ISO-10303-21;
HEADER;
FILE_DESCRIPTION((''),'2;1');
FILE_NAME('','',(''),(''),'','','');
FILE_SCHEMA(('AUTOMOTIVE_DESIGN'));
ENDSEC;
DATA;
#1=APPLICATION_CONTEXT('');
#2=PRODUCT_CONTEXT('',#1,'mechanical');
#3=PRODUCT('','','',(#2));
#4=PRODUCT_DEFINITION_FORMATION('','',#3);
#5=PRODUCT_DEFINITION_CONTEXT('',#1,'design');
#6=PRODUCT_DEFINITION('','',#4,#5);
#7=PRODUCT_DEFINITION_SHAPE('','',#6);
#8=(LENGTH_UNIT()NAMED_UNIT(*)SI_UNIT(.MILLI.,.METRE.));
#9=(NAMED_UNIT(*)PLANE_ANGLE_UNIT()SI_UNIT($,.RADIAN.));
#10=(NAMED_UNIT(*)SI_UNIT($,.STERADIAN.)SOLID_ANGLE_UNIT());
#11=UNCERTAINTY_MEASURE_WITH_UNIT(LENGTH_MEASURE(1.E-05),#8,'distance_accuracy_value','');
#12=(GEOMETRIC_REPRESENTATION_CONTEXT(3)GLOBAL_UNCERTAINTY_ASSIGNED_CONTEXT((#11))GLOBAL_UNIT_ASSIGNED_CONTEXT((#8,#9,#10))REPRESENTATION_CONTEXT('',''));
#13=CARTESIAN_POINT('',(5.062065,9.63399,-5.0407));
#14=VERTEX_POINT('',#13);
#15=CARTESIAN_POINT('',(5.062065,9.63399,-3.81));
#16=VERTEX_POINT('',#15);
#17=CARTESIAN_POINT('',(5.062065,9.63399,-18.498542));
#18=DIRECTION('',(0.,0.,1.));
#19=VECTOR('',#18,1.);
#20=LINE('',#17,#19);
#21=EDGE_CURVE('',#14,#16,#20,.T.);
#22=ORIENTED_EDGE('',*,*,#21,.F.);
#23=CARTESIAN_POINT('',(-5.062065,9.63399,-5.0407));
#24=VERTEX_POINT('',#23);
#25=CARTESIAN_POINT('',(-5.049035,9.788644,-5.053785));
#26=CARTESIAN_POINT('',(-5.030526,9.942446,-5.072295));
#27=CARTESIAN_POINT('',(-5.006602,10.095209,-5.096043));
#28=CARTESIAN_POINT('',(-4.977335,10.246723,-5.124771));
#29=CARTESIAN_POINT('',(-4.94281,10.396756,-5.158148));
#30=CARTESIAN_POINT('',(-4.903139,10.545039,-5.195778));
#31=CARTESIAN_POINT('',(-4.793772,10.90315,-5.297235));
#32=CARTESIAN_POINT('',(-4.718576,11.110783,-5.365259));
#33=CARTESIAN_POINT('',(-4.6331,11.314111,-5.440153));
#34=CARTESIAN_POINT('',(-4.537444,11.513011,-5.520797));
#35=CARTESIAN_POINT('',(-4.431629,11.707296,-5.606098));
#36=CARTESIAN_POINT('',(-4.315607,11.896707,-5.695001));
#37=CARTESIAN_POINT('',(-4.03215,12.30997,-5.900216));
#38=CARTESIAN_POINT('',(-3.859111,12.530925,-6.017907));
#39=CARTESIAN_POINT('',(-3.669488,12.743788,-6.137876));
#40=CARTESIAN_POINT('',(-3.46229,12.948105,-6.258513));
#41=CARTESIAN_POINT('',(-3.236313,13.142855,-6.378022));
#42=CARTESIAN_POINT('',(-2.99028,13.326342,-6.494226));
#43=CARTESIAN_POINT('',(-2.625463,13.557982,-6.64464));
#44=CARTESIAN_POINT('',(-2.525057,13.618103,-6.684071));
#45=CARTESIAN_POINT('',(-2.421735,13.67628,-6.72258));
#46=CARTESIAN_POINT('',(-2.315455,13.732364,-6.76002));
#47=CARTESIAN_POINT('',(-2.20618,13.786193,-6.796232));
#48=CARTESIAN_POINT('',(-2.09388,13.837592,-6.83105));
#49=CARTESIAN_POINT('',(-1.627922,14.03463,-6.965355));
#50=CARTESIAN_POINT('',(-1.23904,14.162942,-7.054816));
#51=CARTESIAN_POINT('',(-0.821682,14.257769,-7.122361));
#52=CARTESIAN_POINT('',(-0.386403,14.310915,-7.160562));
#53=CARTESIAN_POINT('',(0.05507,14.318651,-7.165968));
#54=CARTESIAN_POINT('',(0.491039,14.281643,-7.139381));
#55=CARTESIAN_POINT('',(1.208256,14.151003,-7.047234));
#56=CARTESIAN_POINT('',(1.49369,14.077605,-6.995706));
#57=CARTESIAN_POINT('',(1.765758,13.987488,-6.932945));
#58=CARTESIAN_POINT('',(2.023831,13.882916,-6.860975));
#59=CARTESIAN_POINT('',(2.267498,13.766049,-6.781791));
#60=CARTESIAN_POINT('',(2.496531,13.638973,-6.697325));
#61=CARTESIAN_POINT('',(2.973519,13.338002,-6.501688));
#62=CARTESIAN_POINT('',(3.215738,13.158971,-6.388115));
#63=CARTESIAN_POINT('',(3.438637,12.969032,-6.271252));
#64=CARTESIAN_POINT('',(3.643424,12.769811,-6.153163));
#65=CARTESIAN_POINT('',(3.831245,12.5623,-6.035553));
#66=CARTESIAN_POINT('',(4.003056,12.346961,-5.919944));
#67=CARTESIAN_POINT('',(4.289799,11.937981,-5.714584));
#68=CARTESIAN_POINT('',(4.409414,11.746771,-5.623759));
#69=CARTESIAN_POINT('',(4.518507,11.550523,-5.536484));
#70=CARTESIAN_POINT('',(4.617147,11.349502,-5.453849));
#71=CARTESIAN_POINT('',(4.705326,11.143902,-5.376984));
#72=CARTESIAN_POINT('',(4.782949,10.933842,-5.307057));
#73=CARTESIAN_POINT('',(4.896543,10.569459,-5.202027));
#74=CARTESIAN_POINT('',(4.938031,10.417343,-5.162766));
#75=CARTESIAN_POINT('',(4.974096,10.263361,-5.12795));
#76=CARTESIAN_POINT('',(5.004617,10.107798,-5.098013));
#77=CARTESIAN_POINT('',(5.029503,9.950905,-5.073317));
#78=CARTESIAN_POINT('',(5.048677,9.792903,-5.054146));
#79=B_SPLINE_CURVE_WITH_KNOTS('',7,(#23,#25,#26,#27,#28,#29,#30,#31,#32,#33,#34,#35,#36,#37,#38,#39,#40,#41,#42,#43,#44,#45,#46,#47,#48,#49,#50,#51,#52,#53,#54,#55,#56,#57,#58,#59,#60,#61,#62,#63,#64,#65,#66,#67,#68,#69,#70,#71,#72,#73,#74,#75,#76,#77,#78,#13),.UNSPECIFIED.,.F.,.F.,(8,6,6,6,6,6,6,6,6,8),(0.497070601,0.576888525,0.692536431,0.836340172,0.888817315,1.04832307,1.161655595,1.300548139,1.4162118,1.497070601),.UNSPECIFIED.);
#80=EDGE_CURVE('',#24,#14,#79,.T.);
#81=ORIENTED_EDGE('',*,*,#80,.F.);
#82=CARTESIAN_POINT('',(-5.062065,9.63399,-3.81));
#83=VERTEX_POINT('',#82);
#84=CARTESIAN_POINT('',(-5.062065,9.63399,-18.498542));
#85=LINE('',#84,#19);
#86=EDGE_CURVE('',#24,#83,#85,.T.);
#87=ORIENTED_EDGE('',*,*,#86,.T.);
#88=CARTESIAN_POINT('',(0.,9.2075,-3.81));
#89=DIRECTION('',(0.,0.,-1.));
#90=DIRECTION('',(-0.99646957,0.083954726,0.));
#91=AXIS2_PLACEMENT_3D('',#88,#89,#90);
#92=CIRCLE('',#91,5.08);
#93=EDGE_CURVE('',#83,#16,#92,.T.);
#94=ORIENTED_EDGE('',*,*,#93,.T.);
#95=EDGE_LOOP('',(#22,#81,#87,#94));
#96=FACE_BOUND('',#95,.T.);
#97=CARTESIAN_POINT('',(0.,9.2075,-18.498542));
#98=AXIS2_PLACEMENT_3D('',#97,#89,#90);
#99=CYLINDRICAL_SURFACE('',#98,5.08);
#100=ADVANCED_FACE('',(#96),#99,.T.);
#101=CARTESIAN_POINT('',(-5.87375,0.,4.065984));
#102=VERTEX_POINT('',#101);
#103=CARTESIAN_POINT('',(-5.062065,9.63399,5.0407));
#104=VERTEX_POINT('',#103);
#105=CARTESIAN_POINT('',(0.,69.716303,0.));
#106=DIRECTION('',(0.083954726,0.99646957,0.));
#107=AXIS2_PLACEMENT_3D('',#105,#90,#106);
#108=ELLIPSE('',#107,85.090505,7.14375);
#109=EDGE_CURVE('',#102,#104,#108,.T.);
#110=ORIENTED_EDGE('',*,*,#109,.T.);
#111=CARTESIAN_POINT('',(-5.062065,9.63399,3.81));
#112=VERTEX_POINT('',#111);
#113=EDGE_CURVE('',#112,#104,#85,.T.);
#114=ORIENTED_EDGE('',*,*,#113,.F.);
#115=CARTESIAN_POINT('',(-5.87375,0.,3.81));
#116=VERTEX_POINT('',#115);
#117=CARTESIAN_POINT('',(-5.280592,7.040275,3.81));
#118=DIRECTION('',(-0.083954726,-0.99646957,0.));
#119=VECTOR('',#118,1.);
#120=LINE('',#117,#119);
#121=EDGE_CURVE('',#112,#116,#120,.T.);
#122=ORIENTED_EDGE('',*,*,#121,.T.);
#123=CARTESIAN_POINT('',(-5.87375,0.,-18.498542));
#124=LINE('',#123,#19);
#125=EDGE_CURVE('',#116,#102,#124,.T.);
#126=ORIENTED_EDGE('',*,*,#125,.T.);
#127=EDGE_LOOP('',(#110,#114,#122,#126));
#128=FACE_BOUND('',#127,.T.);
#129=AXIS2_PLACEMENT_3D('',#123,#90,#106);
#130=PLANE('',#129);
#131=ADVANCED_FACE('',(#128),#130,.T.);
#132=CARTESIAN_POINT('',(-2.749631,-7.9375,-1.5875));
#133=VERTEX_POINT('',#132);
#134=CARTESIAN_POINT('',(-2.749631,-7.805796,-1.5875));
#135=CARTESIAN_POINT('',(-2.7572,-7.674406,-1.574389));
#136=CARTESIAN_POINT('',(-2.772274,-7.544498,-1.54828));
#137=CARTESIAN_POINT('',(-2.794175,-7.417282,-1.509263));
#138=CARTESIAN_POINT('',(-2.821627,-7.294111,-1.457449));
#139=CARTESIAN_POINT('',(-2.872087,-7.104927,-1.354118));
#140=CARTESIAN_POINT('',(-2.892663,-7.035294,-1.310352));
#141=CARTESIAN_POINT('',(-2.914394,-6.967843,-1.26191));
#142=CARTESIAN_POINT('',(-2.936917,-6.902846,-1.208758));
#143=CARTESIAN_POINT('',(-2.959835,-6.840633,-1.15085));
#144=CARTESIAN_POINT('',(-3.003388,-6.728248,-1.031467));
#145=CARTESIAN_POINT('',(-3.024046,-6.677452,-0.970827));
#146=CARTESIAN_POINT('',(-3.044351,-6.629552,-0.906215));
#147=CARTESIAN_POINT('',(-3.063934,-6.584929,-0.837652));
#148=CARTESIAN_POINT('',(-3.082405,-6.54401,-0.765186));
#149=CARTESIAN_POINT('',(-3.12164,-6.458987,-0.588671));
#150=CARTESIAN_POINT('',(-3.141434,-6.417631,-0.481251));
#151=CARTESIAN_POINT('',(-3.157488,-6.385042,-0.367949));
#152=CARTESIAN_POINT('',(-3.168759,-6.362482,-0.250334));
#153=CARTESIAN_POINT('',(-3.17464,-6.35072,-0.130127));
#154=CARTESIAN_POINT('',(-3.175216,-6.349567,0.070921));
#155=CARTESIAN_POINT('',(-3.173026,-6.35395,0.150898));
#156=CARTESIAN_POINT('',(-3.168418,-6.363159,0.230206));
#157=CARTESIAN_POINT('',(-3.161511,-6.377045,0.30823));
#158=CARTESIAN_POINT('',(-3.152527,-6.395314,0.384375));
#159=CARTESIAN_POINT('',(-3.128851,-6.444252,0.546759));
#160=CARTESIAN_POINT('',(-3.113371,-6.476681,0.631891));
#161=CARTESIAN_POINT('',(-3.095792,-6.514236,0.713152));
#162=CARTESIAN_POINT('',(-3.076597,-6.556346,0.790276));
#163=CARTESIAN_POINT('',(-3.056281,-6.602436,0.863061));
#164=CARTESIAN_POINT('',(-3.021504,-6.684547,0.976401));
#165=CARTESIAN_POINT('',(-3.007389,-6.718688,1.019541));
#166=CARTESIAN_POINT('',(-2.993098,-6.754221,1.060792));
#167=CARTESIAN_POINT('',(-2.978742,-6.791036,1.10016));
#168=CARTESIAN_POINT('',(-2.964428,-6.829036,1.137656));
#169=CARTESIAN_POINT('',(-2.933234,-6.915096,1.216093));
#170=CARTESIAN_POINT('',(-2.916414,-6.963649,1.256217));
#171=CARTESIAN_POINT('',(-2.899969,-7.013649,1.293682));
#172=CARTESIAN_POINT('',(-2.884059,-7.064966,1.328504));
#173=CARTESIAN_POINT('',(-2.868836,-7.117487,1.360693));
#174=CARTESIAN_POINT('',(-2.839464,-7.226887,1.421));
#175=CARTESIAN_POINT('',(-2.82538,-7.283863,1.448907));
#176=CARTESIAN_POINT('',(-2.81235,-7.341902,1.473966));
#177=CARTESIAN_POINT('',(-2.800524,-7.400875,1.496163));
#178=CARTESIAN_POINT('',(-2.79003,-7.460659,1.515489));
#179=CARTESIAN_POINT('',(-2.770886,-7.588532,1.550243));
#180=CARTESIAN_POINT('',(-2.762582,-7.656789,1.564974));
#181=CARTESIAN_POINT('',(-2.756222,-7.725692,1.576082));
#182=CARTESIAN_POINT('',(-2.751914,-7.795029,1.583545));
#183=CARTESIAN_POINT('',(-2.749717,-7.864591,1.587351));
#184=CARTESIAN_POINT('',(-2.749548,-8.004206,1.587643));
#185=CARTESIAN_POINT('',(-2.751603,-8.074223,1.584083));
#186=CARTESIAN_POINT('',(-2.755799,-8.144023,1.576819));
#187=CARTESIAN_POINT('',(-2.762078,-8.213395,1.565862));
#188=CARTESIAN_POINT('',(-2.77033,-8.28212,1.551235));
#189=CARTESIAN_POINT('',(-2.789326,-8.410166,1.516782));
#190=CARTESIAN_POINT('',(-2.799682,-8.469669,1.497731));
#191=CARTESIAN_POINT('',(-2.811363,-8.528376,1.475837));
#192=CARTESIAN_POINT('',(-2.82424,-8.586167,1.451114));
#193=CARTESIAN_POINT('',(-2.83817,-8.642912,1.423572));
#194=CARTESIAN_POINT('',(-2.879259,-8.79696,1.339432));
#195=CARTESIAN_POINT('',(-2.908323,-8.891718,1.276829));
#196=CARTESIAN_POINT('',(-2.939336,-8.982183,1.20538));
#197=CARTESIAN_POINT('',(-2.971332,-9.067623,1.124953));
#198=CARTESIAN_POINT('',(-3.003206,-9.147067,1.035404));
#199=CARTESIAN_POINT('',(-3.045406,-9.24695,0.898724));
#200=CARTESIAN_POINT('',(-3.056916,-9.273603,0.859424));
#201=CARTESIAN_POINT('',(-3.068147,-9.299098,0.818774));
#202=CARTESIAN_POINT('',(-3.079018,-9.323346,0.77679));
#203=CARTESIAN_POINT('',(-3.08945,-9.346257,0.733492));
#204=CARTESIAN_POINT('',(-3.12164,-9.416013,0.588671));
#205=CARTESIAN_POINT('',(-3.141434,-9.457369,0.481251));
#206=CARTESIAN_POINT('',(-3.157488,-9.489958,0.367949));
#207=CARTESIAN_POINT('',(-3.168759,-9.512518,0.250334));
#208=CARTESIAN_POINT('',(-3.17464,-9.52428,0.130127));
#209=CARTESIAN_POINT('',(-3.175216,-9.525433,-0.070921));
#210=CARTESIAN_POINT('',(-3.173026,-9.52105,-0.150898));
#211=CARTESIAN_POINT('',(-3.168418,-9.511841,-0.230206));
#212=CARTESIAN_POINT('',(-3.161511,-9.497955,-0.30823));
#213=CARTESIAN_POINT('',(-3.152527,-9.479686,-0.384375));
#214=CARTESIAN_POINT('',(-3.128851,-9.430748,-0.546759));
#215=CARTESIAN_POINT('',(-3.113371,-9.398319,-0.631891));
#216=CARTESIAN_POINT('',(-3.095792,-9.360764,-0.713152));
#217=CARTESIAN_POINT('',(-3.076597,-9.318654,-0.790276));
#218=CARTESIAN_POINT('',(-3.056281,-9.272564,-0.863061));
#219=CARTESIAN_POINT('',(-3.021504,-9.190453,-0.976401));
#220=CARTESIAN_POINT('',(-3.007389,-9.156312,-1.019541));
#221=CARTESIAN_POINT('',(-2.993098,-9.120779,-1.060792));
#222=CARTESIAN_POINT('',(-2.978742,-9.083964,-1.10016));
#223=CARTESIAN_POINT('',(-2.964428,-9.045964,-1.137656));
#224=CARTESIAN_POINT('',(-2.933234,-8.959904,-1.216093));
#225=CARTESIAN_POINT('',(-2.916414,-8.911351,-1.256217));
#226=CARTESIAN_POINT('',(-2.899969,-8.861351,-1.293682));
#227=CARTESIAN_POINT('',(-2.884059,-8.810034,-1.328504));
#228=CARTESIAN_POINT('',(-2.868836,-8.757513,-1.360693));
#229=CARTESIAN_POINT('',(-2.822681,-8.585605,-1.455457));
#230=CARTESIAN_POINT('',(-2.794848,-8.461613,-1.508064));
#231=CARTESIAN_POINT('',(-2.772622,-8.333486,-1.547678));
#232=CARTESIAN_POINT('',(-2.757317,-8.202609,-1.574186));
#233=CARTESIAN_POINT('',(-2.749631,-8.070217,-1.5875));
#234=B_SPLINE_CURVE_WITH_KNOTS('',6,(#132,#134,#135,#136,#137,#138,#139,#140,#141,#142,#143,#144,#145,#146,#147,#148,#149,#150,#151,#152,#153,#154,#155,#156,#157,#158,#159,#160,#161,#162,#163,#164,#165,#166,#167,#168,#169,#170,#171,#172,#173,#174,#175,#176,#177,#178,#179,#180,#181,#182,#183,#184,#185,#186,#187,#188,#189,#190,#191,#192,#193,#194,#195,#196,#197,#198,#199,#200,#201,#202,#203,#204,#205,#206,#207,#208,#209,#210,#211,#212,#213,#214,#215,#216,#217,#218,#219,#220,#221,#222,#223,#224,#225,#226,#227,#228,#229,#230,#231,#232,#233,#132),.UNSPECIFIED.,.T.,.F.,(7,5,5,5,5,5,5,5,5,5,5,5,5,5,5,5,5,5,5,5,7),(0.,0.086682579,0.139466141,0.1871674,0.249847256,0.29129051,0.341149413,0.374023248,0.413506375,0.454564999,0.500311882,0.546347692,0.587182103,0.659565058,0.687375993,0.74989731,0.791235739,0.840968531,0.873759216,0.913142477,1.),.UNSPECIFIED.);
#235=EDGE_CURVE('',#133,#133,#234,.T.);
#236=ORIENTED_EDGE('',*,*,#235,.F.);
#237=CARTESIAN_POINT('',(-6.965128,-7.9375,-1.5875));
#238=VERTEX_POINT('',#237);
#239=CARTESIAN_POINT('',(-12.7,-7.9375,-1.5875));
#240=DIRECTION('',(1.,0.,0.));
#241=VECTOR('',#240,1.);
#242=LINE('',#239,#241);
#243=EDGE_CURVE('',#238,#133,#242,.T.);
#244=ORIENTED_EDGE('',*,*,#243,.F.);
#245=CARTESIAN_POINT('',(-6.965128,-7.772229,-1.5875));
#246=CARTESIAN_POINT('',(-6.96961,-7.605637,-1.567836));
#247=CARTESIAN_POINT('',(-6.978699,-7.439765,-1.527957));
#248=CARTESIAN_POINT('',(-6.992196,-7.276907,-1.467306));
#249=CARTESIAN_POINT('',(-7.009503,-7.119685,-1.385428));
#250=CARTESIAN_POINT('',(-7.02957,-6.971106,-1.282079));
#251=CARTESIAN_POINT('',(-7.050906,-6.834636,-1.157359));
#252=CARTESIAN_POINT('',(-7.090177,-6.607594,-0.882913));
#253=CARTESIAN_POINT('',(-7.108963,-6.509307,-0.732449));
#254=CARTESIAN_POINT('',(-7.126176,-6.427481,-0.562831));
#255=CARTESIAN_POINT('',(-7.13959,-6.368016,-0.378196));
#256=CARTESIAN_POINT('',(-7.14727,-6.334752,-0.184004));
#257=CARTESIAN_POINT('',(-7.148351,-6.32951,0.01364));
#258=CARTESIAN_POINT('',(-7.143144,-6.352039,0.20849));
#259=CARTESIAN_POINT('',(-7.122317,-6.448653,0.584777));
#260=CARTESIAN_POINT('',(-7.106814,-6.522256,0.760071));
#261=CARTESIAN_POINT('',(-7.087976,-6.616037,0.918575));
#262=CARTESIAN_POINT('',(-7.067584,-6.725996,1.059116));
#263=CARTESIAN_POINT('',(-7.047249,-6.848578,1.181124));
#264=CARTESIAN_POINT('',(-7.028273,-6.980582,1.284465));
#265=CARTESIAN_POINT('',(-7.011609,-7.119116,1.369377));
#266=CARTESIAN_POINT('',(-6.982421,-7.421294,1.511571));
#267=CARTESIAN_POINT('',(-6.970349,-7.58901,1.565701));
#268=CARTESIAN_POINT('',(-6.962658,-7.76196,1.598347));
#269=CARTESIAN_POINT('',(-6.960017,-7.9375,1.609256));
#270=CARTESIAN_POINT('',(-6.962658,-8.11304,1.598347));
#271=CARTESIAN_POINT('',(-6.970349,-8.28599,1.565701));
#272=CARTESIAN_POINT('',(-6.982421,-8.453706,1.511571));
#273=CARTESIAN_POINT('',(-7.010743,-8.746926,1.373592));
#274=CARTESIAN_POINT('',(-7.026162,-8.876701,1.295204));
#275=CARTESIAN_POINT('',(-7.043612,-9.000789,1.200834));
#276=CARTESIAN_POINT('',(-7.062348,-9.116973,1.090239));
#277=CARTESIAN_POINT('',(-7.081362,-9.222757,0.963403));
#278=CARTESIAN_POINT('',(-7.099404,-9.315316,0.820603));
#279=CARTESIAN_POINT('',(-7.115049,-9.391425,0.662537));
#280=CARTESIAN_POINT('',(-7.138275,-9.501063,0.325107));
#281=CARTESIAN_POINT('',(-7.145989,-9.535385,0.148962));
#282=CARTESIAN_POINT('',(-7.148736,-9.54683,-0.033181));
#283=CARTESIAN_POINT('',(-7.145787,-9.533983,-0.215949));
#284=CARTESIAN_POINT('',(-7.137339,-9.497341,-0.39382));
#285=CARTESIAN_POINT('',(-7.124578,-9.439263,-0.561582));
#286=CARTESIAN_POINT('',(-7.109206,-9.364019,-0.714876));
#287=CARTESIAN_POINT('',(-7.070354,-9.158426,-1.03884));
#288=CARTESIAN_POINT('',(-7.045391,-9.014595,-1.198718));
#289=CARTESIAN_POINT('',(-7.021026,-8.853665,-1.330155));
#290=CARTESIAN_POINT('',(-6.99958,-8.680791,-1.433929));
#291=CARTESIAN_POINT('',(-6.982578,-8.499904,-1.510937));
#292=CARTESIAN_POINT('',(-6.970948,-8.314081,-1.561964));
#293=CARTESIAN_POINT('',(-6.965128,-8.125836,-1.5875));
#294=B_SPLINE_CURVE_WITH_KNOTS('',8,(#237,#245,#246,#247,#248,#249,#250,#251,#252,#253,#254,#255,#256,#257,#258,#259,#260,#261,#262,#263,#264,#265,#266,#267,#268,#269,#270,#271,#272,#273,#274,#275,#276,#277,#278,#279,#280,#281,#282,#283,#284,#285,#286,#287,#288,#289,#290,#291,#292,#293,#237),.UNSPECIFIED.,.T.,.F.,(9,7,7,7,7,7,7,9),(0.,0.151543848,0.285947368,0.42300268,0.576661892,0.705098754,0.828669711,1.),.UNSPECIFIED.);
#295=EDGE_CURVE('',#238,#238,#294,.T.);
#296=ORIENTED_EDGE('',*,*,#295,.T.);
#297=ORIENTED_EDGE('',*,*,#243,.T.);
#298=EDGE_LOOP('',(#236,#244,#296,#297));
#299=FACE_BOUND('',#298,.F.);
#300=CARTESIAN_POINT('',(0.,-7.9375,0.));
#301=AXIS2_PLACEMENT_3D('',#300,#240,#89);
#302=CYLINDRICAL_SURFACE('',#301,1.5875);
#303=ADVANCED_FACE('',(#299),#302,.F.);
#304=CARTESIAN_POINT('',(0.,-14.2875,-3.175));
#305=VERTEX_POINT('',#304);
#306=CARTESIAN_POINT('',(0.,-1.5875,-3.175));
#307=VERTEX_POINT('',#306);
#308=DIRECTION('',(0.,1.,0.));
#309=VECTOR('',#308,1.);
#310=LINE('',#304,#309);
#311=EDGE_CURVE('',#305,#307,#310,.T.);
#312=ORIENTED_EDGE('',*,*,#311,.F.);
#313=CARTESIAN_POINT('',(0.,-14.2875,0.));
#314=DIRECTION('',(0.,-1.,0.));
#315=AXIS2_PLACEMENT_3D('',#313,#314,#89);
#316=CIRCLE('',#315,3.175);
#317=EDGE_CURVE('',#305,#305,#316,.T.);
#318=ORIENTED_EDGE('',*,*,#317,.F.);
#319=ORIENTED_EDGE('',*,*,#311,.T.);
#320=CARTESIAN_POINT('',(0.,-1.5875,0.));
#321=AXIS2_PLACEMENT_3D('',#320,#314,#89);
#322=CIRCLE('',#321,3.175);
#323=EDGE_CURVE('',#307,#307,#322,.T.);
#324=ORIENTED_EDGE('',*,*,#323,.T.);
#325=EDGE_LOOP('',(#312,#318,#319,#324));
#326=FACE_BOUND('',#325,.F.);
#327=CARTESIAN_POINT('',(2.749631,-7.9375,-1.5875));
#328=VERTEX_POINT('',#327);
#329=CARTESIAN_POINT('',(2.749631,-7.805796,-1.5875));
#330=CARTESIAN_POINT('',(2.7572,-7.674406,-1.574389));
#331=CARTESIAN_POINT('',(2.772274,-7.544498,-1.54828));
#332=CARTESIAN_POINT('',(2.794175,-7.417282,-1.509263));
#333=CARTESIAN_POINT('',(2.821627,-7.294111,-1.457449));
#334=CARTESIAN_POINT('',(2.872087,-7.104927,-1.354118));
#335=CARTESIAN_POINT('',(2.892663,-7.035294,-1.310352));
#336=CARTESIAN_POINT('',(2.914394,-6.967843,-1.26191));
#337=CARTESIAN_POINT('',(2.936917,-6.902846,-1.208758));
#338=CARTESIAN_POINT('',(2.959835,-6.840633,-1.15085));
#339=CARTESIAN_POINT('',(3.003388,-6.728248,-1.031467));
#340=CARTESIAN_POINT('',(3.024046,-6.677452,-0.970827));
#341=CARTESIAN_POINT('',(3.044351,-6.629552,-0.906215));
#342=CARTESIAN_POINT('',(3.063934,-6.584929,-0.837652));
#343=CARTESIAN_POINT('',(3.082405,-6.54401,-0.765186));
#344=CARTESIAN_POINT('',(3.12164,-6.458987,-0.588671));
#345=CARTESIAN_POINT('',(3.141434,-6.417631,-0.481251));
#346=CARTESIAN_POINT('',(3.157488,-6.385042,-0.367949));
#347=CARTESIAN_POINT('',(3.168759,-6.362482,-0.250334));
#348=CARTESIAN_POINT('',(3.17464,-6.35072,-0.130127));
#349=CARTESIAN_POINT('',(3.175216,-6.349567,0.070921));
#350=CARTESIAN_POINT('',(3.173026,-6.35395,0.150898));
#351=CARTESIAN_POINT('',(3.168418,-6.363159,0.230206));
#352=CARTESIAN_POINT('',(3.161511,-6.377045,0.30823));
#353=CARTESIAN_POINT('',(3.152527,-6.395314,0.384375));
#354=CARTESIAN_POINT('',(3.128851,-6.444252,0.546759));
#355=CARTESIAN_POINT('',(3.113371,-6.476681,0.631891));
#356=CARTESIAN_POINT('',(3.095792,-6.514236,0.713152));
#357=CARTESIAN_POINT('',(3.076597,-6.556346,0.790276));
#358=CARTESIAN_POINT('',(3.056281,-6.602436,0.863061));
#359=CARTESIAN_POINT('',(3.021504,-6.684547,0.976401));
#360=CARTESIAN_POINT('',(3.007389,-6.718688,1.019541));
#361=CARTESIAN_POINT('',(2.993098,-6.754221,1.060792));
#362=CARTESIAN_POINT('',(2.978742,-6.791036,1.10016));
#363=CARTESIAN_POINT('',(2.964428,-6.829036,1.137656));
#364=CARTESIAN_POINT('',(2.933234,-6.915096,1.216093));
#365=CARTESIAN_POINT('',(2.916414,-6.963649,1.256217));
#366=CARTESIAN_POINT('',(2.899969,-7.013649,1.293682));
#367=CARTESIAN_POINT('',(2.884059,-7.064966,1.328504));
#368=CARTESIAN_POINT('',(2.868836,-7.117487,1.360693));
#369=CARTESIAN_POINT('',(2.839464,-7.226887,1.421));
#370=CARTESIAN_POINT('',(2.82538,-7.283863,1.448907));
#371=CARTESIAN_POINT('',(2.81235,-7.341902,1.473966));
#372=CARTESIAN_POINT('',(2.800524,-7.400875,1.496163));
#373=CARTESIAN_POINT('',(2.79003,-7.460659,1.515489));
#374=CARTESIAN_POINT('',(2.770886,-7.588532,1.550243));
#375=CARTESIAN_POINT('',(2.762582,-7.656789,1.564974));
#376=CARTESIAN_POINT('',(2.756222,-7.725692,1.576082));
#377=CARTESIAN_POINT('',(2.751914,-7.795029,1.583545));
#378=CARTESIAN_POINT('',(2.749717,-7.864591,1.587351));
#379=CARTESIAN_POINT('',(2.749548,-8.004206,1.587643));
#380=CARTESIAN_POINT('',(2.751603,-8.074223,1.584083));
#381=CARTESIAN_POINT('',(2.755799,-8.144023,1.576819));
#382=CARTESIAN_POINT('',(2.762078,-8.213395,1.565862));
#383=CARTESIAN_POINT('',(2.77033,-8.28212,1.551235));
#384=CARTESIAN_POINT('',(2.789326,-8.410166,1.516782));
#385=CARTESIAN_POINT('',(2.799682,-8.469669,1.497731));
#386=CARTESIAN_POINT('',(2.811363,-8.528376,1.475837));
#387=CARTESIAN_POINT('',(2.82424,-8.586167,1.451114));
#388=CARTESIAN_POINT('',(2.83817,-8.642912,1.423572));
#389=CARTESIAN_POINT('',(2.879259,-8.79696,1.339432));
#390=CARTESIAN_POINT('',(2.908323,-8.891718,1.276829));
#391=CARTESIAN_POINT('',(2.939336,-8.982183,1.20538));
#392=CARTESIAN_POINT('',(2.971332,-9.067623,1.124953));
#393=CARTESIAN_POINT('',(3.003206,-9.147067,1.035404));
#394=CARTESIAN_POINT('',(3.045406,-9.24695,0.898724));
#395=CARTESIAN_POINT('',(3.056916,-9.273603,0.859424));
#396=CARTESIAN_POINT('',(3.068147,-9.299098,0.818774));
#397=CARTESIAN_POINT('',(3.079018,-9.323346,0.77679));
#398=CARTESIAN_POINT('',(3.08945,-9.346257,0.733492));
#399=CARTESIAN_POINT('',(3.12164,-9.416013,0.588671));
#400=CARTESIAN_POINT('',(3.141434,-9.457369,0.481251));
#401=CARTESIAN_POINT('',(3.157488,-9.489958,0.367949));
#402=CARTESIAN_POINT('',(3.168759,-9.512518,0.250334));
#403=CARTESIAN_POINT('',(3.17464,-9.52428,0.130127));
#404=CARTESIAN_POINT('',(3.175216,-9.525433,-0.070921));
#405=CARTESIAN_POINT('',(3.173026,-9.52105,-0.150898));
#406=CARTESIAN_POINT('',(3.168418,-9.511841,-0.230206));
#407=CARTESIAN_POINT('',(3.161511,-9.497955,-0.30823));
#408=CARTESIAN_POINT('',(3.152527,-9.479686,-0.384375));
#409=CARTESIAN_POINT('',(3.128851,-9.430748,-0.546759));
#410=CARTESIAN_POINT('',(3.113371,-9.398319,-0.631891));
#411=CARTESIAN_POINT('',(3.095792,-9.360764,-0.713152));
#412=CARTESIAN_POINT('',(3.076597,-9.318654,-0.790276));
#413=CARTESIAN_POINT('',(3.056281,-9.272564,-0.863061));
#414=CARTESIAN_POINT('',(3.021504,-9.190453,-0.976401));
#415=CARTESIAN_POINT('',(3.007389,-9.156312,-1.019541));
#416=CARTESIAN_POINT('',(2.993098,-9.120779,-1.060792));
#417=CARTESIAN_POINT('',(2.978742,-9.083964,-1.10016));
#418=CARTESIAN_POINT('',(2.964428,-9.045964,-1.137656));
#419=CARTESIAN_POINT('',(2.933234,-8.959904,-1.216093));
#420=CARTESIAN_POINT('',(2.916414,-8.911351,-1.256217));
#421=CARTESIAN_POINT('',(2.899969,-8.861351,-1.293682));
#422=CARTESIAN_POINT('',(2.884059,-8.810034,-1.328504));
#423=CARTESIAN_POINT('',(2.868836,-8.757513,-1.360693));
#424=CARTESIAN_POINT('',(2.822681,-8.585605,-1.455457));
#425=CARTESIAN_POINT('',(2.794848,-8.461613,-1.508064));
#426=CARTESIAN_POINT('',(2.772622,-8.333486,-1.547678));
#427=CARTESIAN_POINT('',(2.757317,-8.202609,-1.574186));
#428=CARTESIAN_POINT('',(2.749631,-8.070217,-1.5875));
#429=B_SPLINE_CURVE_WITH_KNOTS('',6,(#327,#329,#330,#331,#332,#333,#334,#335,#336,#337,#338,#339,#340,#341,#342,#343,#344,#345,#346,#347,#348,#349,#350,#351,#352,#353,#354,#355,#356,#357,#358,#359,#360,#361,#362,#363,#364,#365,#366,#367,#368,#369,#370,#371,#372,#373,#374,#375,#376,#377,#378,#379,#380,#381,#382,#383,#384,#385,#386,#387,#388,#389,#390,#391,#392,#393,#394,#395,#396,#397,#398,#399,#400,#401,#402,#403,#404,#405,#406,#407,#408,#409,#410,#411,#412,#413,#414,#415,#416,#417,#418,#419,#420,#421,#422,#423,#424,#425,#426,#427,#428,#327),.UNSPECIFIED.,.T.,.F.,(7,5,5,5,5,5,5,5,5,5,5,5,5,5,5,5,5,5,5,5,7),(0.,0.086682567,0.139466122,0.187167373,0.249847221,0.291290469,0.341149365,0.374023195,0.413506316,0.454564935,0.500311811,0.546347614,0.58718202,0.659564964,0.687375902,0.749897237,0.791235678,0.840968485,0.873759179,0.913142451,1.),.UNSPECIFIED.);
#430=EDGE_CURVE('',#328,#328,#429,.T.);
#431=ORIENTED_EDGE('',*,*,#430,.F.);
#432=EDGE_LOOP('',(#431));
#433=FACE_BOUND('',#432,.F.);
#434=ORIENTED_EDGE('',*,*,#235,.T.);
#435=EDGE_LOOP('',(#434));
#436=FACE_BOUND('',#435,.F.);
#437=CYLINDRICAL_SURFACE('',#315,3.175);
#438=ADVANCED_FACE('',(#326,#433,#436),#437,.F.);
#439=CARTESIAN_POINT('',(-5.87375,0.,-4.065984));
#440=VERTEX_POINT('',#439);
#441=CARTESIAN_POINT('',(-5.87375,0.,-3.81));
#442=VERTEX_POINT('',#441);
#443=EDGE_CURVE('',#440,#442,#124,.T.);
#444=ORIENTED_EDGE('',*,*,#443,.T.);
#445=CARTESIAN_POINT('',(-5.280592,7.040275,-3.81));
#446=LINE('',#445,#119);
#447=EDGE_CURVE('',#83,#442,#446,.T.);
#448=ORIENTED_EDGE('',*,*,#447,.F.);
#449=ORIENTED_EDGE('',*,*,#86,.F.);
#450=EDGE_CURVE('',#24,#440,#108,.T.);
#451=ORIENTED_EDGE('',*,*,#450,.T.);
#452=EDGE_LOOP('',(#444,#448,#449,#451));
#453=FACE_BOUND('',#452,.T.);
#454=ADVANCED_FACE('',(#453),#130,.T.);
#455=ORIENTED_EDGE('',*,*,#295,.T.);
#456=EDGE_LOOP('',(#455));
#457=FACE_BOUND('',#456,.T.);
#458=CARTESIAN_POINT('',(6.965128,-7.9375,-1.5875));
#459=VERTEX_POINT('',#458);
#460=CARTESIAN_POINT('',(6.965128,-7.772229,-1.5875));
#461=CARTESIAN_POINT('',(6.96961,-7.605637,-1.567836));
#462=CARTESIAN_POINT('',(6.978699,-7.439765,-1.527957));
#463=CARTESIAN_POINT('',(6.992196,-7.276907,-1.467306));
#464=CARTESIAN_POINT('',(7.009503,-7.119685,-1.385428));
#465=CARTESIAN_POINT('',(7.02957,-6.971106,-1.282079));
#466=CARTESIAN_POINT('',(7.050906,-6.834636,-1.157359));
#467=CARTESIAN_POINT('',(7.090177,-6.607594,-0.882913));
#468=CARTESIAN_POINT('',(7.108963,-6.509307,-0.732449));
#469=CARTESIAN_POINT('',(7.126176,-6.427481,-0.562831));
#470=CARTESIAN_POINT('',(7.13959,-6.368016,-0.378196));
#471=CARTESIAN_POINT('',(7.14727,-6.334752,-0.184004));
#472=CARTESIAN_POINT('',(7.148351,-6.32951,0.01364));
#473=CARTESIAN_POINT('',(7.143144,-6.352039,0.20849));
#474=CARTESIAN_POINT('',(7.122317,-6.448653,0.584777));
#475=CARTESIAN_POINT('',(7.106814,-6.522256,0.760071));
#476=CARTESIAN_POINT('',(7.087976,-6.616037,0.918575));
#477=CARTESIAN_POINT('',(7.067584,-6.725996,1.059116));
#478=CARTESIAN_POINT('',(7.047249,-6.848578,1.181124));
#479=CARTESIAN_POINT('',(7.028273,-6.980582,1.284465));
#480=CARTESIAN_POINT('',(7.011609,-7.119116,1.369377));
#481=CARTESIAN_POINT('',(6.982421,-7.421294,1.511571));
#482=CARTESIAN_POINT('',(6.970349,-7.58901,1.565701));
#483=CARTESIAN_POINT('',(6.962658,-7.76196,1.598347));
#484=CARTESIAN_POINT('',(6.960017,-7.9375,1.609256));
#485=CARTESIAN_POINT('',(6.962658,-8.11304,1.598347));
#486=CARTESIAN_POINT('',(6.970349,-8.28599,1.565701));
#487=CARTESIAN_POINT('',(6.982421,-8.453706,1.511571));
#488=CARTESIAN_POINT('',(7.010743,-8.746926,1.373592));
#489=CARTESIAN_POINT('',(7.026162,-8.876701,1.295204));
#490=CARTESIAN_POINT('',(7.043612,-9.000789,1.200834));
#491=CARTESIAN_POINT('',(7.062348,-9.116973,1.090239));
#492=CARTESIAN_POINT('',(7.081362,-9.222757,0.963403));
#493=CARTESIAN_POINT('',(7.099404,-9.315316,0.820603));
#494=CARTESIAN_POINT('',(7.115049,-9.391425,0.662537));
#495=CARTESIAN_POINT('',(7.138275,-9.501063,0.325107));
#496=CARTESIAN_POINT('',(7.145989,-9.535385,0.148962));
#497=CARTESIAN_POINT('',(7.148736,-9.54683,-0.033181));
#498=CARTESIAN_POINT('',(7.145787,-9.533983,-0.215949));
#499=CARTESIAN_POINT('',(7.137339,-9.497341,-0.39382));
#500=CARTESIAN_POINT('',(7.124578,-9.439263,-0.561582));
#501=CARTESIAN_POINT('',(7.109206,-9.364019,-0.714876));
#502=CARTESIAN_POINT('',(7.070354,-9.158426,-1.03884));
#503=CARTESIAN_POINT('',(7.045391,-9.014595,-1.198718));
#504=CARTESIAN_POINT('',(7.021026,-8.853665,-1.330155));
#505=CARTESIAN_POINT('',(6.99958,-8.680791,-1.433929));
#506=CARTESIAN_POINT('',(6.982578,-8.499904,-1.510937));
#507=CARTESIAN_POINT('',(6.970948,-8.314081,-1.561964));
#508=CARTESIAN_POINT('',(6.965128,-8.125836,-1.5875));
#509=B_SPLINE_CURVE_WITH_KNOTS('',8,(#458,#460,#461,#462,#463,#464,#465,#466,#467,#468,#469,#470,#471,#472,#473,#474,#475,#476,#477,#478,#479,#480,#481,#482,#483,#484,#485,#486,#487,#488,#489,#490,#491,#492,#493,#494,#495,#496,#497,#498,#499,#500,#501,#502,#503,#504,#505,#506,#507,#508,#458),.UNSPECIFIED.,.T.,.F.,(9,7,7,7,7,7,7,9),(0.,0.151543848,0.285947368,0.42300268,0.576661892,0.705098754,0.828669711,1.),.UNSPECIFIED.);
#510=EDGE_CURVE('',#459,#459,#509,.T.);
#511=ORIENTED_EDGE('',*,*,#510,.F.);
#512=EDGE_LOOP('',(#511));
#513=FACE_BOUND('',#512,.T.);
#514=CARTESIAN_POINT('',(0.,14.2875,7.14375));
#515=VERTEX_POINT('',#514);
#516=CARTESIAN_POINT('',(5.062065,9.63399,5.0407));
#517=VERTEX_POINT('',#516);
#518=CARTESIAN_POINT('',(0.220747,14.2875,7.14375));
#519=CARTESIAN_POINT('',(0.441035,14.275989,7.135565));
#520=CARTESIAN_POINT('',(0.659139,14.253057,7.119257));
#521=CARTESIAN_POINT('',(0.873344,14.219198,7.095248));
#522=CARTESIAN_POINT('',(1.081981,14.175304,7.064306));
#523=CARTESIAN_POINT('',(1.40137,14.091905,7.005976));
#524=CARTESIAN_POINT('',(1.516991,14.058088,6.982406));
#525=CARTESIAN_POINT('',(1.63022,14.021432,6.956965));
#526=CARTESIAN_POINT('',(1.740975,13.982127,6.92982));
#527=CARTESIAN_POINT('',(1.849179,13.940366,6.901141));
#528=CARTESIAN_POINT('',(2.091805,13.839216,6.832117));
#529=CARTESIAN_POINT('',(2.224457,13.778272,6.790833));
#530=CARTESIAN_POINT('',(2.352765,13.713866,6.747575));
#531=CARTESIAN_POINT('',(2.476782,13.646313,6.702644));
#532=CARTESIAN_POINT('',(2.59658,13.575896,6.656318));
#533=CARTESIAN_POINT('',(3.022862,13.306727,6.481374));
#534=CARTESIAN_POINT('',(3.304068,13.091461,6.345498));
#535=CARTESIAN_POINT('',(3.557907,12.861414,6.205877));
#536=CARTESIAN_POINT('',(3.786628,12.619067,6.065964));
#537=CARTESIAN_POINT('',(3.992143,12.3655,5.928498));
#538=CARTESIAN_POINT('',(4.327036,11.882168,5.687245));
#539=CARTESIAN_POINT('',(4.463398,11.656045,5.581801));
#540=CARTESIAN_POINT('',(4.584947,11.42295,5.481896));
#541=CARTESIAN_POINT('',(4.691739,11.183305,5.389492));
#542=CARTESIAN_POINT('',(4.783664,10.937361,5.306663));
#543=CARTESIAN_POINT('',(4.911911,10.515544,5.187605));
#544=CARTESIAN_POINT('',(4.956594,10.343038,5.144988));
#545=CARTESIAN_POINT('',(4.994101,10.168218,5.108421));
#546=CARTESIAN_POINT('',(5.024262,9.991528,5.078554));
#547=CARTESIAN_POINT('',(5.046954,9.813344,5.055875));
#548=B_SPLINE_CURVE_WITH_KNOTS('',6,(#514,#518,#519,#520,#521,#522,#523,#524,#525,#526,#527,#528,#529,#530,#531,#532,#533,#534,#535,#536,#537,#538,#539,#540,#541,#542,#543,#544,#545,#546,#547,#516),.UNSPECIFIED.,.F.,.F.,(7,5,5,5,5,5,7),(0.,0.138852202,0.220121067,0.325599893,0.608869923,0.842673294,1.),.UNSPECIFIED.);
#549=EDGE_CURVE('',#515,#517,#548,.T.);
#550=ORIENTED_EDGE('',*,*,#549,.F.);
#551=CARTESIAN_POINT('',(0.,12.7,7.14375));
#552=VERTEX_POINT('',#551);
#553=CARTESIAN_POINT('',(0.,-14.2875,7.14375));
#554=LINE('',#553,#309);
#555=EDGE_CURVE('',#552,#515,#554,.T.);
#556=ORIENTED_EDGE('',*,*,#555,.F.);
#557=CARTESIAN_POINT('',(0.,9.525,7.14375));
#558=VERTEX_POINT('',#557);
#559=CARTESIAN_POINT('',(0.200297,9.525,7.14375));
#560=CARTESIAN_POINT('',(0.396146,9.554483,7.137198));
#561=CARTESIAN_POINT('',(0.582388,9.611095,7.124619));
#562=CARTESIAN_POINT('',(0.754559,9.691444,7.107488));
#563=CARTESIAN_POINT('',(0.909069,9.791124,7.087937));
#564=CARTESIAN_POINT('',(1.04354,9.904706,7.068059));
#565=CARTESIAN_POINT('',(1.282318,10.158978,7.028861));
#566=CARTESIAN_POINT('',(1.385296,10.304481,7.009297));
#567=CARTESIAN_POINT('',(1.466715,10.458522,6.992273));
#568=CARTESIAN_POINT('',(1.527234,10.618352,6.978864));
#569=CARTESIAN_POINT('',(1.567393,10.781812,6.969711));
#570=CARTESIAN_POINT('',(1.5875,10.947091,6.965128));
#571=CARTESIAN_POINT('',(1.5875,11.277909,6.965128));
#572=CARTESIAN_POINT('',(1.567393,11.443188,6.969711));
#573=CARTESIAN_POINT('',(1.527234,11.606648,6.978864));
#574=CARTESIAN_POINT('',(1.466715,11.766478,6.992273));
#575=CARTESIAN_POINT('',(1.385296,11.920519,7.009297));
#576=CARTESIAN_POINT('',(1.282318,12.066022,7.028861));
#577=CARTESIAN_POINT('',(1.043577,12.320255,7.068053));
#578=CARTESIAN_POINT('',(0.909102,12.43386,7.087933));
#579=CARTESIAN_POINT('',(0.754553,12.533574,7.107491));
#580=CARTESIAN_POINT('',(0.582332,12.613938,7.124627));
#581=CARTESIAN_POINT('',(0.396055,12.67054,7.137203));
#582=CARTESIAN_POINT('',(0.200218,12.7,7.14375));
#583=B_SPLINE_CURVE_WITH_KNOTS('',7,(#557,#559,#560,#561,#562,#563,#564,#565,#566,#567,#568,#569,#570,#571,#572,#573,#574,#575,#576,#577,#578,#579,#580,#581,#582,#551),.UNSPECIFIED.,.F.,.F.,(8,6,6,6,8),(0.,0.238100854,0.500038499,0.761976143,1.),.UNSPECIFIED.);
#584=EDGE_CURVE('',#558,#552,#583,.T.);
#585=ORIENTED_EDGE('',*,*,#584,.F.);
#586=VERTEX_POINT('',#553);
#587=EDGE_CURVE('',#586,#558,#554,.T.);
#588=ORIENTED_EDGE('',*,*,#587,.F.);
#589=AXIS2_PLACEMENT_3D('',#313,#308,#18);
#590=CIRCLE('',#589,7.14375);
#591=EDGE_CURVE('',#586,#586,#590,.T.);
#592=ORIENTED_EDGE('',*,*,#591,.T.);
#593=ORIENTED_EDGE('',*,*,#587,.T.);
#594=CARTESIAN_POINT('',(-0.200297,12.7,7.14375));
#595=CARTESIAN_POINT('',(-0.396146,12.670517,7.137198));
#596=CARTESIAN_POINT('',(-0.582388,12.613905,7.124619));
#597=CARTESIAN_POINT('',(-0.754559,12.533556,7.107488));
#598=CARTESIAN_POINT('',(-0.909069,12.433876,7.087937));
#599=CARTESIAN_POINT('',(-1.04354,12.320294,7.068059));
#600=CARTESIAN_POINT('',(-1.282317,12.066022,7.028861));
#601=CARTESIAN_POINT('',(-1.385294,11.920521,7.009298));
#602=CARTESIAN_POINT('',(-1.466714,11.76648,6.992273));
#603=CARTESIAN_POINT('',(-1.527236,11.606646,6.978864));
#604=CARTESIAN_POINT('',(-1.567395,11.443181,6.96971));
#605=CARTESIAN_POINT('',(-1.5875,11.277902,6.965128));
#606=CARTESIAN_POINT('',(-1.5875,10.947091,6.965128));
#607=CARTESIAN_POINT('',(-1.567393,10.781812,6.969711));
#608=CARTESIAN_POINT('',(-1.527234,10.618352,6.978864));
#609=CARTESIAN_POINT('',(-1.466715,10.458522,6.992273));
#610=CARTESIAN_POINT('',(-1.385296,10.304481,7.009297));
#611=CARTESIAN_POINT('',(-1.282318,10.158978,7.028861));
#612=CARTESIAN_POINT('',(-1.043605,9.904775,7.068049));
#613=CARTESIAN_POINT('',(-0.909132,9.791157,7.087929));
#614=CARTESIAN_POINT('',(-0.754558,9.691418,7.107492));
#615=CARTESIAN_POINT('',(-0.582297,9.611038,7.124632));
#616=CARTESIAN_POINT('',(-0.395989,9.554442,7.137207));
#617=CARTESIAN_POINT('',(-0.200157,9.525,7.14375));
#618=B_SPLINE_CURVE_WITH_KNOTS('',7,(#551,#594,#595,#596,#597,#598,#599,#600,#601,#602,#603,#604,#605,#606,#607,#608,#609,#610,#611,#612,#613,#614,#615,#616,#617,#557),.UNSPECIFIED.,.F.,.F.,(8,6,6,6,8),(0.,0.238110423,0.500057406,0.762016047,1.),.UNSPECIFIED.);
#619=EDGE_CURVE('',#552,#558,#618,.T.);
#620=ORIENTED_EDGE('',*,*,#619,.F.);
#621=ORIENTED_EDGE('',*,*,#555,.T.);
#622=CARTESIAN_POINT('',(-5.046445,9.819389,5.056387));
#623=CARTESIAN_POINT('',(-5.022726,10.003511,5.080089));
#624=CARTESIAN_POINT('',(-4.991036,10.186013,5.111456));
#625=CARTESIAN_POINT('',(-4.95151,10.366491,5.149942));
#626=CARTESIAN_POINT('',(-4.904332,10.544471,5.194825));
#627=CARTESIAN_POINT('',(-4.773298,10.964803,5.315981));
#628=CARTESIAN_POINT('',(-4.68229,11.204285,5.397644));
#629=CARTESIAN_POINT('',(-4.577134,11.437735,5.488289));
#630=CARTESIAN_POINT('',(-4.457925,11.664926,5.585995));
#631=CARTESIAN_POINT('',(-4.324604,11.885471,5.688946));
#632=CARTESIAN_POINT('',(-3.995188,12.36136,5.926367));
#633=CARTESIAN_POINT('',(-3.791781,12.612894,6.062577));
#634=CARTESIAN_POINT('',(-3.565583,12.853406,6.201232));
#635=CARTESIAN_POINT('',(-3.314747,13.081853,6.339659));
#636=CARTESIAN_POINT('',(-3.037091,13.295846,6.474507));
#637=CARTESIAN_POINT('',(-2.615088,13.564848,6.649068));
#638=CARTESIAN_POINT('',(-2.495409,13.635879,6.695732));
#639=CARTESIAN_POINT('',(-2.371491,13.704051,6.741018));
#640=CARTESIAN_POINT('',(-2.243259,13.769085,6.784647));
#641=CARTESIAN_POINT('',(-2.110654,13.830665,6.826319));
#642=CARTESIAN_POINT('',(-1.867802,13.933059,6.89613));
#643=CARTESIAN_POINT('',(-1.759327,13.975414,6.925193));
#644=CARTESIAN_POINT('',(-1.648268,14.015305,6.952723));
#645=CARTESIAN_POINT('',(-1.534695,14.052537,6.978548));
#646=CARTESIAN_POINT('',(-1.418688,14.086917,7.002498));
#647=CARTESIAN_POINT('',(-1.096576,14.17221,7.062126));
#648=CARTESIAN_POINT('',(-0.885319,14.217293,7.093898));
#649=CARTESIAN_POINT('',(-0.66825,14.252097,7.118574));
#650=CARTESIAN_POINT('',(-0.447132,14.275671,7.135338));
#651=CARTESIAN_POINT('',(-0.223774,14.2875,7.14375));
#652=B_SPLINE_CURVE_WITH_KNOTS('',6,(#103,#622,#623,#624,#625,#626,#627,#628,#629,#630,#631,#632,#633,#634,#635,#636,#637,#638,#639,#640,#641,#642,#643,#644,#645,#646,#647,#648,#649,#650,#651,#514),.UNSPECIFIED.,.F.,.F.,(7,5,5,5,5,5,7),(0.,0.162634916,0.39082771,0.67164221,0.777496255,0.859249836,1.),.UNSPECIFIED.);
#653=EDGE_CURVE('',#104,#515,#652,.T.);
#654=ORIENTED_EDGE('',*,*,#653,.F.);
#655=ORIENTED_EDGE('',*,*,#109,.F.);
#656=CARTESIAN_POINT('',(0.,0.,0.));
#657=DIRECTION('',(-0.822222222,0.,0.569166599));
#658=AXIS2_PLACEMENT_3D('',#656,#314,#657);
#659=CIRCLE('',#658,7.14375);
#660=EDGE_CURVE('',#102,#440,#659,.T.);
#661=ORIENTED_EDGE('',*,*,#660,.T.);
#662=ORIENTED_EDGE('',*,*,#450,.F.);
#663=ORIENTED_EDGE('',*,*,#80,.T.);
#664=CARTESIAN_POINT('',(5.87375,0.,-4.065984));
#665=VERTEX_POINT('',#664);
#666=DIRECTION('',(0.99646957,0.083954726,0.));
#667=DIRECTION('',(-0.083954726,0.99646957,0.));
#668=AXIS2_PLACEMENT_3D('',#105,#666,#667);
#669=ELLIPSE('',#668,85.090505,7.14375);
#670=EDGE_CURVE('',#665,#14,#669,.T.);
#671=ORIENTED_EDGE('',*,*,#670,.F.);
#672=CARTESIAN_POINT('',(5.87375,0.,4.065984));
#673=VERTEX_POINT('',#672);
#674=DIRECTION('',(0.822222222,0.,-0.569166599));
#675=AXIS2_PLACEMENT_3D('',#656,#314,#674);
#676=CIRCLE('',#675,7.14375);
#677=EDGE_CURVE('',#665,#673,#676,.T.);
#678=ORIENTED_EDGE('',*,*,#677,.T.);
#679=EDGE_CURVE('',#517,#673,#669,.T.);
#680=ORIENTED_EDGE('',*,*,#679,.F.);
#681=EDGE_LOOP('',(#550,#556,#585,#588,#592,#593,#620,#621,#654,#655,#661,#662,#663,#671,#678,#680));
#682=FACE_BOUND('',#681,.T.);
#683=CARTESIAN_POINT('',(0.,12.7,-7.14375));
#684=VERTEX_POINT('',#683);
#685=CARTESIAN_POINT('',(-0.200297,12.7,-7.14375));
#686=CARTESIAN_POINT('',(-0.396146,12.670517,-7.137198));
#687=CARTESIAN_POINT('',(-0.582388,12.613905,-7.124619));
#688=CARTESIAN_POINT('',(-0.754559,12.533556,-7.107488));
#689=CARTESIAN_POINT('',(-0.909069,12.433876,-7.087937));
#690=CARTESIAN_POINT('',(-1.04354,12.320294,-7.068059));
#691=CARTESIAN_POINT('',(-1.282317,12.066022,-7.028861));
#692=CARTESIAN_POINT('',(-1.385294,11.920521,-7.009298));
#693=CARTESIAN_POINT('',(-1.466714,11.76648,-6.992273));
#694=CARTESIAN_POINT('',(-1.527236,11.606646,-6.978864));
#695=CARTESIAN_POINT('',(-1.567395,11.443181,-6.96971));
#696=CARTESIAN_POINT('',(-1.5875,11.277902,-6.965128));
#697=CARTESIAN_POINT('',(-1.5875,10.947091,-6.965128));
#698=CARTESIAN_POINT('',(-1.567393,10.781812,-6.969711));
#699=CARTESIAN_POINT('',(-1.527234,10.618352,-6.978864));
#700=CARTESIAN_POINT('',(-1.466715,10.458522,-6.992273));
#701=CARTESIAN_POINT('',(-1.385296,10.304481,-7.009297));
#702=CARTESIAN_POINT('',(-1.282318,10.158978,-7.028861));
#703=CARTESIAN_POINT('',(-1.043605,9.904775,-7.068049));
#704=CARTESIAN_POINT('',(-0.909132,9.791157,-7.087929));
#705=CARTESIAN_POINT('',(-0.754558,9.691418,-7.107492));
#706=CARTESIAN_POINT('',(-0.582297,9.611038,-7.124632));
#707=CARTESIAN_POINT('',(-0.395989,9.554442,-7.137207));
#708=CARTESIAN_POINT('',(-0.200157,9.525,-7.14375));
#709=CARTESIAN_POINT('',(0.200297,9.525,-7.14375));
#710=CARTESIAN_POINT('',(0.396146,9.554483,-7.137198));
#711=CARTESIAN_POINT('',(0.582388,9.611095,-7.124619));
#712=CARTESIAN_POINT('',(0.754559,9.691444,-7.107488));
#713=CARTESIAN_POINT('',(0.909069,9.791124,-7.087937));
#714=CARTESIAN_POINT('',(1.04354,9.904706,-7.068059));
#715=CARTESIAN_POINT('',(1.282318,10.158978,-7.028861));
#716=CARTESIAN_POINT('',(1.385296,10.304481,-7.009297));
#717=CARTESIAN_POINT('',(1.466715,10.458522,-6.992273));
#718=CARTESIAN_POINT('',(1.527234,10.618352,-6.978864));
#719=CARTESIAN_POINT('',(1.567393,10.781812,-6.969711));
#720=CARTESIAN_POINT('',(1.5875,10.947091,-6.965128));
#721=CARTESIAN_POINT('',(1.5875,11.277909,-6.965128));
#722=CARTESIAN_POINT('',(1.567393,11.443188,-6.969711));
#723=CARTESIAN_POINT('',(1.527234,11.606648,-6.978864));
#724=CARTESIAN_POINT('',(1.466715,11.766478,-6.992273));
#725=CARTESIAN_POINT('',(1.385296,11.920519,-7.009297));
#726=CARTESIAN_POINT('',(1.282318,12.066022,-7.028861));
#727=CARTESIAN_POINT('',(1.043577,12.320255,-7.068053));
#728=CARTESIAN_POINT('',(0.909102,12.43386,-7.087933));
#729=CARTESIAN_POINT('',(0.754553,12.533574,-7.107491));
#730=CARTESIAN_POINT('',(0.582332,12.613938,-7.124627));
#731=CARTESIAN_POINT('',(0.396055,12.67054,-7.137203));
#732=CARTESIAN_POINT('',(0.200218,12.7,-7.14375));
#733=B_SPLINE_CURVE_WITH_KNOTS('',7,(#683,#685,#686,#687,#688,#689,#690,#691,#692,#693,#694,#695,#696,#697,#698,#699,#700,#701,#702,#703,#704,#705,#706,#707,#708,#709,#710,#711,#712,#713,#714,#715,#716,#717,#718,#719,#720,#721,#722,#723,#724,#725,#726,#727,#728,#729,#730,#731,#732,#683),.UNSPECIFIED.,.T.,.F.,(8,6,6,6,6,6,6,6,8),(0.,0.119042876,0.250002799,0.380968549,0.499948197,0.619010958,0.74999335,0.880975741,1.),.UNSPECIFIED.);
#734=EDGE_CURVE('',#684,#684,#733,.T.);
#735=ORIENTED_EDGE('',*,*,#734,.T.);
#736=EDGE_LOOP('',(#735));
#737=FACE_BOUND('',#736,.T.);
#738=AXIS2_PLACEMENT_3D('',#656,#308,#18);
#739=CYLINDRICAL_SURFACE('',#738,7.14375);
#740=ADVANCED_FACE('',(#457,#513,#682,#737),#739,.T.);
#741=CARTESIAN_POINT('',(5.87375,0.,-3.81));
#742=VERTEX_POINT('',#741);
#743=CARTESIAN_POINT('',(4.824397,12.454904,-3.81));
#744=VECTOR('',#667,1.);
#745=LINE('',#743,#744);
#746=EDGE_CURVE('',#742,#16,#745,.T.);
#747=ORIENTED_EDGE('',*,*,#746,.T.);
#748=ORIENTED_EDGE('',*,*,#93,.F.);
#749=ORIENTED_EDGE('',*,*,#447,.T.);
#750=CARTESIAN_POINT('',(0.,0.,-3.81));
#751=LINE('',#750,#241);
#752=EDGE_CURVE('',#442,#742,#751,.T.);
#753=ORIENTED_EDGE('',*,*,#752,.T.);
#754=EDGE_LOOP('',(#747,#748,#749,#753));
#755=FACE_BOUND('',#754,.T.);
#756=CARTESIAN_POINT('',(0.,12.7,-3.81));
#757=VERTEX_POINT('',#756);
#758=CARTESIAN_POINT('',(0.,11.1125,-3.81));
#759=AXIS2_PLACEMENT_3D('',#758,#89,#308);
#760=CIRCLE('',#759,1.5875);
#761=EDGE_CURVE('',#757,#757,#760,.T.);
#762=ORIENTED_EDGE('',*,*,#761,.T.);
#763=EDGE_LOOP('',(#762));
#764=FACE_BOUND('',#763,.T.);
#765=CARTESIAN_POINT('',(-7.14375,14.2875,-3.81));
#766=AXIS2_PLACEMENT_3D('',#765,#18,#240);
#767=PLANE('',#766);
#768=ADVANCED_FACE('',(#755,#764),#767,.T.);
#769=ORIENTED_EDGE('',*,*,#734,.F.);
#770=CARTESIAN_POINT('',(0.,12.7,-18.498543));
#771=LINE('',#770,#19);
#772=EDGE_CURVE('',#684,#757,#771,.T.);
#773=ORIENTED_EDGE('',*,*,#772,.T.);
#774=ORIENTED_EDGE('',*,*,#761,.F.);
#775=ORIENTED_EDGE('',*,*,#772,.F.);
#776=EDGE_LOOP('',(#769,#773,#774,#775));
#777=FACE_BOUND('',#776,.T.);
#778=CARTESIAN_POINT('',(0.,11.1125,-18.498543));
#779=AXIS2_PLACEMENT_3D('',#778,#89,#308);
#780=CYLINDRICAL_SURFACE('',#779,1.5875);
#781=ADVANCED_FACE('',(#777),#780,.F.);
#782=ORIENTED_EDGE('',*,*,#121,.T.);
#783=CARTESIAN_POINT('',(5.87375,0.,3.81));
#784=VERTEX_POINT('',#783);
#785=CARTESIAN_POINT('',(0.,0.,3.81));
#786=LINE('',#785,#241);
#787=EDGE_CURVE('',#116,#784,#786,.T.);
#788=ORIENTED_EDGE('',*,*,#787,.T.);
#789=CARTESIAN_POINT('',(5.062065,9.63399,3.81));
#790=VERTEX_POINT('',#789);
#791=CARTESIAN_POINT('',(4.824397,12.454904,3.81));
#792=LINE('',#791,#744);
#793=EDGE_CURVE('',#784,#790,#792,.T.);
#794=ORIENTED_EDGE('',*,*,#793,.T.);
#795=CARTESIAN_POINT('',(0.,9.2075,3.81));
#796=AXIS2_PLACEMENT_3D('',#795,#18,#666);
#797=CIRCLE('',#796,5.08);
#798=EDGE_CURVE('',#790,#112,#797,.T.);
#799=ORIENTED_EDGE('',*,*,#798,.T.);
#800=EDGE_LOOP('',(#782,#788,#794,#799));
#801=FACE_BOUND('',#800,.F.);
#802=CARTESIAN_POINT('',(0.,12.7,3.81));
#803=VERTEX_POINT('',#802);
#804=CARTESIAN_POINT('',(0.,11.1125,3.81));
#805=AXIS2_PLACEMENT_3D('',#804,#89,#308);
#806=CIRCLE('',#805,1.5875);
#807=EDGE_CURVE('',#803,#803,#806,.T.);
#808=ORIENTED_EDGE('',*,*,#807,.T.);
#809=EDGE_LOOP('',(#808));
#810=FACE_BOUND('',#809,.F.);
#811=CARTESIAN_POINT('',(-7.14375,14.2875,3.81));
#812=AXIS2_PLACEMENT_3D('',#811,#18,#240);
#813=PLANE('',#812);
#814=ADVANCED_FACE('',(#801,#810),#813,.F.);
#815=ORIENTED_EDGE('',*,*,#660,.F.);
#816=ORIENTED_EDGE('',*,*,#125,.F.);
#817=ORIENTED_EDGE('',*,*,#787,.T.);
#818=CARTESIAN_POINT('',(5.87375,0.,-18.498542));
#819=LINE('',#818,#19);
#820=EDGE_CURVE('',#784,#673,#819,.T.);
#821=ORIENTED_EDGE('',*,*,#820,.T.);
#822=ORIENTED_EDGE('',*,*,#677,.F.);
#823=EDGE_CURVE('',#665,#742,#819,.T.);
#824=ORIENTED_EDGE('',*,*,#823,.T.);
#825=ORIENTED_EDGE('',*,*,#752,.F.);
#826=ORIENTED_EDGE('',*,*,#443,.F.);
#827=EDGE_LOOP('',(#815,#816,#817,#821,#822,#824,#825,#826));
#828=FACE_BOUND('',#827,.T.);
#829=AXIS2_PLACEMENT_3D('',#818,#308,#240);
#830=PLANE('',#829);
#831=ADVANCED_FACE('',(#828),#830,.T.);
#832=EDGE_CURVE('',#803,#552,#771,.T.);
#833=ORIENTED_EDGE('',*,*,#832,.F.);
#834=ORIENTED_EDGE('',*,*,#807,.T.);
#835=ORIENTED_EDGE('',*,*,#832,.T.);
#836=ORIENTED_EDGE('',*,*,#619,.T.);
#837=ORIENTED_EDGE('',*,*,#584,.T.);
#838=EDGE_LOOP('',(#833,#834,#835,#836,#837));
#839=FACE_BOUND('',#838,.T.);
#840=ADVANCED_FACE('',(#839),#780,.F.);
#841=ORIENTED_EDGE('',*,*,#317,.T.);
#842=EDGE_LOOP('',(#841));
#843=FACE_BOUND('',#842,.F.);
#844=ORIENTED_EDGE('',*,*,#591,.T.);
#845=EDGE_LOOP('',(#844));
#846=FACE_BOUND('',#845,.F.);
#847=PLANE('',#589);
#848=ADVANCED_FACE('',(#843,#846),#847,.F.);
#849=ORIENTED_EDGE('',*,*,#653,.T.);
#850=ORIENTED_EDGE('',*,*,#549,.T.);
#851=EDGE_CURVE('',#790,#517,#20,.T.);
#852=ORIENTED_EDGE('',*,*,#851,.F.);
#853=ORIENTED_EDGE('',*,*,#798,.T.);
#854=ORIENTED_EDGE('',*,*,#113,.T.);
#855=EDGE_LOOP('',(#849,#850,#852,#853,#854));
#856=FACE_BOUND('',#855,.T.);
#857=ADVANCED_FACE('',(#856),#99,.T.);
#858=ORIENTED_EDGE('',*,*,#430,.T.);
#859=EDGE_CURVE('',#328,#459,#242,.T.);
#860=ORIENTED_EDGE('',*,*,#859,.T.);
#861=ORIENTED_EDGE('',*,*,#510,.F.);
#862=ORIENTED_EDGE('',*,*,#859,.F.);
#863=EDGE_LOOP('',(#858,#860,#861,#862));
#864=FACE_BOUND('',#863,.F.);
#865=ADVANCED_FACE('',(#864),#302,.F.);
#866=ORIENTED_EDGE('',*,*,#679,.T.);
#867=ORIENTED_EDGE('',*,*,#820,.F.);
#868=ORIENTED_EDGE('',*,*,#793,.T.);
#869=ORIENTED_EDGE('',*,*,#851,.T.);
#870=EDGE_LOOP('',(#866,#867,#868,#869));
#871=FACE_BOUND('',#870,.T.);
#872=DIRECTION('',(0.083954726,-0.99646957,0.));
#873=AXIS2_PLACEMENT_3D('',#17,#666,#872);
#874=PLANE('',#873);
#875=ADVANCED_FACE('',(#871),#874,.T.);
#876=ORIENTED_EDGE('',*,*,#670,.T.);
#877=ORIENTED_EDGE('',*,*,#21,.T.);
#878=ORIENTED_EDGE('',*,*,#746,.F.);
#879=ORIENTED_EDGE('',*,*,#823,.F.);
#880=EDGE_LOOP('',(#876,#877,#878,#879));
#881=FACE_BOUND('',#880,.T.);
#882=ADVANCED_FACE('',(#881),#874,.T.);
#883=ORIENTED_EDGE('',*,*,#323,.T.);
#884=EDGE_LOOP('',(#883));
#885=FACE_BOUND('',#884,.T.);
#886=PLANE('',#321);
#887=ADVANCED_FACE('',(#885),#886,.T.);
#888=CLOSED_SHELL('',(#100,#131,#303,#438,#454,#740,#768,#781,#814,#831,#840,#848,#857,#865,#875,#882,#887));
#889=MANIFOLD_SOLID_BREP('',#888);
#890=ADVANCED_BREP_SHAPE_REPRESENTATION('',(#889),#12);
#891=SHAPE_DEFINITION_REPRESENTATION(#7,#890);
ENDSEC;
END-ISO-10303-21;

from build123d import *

# Parameters (mm, degrees)
SKETCH1_R               = 7.14375
BOSS_EXTRUDE1_DEPTH     = 14.2875
SKETCH2_R               = 3.175
CUT_EXTRUDE1_DEPTH      = 12.7
SKETCH3_W               = 14.2875
SKETCH3_H               = 7.62
CUT_EXTRUDE2_DEPTH      = 14.2875
CUT_EXTRUDE4_DEPTH      = 18.49854235
CUT_EXTRUDE4_DEPTH_BACK = 18.49854235
CUT_EXTRUDE5_DEPTH      = 18.49854252
CUT_EXTRUDE5_DEPTH_BACK = 18.49854252
SKETCH5_R               = 1.5875
SKETCH6_R               = 1.5875
CUT_EXTRUDE6_DEPTH      = 12.7


with BuildPart() as part:
    # Sketch1 → Boss-Extrude1 (new, symmetric)
    with BuildSketch(Plane(origin=(0, 0, 0), x_dir=(1, 0, 0), z_dir=(0, 1, 0))):
        with Locations(Location((0, 0, 0), (0, 0, 270))):
            Circle(SKETCH1_R)
    extrude(amount=BOSS_EXTRUDE1_DEPTH, both=True)

    # Sketch2 → Cut-Extrude1 (cut)
    with BuildSketch(Plane.XZ.offset(14.2875)):
        with Locations(Location((0, 0, 0), (0, 0, 270))):
            Circle(SKETCH2_R)
    extrude(amount=-CUT_EXTRUDE1_DEPTH, mode=Mode.SUBTRACT)

    # Sketch3 → Cut-Extrude2 (cut)
    with BuildSketch(Plane(origin=(0, 14.2875, 0), x_dir=(1, 0, 0), z_dir=(0, 1, 0))):
        Rectangle(SKETCH3_W, SKETCH3_H)
    extrude(amount=-CUT_EXTRUDE2_DEPTH, mode=Mode.SUBTRACT)

    # Sketch4 → Cut-Extrude4 (cut, two sides: drawn at the far end of the back side and taken through both)
    with BuildSketch(Plane.XY.offset(-CUT_EXTRUDE4_DEPTH_BACK)):
        with BuildLine():
            Line((-57.554902545, 0), (-7.14375, 0))
            Line((-7.14375, 0), (-5.87375, 0))
            Line((-5.87375, 0), (-5.062065416, 9.633990007))
            ThreePointArc((-5.062065416, 9.633990007), (0, 14.2875), (5.062065416, 9.633990007))
            Line((5.062065416, 9.633990007), (5.87375, 0))
            Line((5.87375, 0), (7.14375, 0))
            Line((7.14375, 0), (57.554902545, 0))
            Line((57.554902545, 0), (57.554902545, 100.82230509))
            Line((57.554902545, 100.82230509), (-57.554902545, 100.82230509))
            Line((-57.554902545, 100.82230509), (-57.554902545, 0))
        make_face()
    extrude(amount=CUT_EXTRUDE4_DEPTH + CUT_EXTRUDE4_DEPTH_BACK, mode=Mode.SUBTRACT)

    # Sketch5 → Cut-Extrude5 (cut, two sides: drawn at the far end of the back side and taken through both)
    with BuildSketch(Plane.XY.offset(-CUT_EXTRUDE5_DEPTH_BACK)):
        with Locations(Location((0, 11.1125, 0), (0, 0, 90))):
            Circle(SKETCH5_R)
    extrude(amount=CUT_EXTRUDE5_DEPTH + CUT_EXTRUDE5_DEPTH_BACK, mode=Mode.SUBTRACT)

    # Sketch6 → Cut-Extrude6 (cut, symmetric)
    with BuildSketch(Plane(origin=(0, 0, 0), x_dir=(0, 0, -1), z_dir=(1, 0, 0))):
        with Locations((0, -7.9375)):
            Circle(SKETCH6_R)
    extrude(amount=CUT_EXTRUDE6_DEPTH, both=True, mode=Mode.SUBTRACT)


solid = part.part
